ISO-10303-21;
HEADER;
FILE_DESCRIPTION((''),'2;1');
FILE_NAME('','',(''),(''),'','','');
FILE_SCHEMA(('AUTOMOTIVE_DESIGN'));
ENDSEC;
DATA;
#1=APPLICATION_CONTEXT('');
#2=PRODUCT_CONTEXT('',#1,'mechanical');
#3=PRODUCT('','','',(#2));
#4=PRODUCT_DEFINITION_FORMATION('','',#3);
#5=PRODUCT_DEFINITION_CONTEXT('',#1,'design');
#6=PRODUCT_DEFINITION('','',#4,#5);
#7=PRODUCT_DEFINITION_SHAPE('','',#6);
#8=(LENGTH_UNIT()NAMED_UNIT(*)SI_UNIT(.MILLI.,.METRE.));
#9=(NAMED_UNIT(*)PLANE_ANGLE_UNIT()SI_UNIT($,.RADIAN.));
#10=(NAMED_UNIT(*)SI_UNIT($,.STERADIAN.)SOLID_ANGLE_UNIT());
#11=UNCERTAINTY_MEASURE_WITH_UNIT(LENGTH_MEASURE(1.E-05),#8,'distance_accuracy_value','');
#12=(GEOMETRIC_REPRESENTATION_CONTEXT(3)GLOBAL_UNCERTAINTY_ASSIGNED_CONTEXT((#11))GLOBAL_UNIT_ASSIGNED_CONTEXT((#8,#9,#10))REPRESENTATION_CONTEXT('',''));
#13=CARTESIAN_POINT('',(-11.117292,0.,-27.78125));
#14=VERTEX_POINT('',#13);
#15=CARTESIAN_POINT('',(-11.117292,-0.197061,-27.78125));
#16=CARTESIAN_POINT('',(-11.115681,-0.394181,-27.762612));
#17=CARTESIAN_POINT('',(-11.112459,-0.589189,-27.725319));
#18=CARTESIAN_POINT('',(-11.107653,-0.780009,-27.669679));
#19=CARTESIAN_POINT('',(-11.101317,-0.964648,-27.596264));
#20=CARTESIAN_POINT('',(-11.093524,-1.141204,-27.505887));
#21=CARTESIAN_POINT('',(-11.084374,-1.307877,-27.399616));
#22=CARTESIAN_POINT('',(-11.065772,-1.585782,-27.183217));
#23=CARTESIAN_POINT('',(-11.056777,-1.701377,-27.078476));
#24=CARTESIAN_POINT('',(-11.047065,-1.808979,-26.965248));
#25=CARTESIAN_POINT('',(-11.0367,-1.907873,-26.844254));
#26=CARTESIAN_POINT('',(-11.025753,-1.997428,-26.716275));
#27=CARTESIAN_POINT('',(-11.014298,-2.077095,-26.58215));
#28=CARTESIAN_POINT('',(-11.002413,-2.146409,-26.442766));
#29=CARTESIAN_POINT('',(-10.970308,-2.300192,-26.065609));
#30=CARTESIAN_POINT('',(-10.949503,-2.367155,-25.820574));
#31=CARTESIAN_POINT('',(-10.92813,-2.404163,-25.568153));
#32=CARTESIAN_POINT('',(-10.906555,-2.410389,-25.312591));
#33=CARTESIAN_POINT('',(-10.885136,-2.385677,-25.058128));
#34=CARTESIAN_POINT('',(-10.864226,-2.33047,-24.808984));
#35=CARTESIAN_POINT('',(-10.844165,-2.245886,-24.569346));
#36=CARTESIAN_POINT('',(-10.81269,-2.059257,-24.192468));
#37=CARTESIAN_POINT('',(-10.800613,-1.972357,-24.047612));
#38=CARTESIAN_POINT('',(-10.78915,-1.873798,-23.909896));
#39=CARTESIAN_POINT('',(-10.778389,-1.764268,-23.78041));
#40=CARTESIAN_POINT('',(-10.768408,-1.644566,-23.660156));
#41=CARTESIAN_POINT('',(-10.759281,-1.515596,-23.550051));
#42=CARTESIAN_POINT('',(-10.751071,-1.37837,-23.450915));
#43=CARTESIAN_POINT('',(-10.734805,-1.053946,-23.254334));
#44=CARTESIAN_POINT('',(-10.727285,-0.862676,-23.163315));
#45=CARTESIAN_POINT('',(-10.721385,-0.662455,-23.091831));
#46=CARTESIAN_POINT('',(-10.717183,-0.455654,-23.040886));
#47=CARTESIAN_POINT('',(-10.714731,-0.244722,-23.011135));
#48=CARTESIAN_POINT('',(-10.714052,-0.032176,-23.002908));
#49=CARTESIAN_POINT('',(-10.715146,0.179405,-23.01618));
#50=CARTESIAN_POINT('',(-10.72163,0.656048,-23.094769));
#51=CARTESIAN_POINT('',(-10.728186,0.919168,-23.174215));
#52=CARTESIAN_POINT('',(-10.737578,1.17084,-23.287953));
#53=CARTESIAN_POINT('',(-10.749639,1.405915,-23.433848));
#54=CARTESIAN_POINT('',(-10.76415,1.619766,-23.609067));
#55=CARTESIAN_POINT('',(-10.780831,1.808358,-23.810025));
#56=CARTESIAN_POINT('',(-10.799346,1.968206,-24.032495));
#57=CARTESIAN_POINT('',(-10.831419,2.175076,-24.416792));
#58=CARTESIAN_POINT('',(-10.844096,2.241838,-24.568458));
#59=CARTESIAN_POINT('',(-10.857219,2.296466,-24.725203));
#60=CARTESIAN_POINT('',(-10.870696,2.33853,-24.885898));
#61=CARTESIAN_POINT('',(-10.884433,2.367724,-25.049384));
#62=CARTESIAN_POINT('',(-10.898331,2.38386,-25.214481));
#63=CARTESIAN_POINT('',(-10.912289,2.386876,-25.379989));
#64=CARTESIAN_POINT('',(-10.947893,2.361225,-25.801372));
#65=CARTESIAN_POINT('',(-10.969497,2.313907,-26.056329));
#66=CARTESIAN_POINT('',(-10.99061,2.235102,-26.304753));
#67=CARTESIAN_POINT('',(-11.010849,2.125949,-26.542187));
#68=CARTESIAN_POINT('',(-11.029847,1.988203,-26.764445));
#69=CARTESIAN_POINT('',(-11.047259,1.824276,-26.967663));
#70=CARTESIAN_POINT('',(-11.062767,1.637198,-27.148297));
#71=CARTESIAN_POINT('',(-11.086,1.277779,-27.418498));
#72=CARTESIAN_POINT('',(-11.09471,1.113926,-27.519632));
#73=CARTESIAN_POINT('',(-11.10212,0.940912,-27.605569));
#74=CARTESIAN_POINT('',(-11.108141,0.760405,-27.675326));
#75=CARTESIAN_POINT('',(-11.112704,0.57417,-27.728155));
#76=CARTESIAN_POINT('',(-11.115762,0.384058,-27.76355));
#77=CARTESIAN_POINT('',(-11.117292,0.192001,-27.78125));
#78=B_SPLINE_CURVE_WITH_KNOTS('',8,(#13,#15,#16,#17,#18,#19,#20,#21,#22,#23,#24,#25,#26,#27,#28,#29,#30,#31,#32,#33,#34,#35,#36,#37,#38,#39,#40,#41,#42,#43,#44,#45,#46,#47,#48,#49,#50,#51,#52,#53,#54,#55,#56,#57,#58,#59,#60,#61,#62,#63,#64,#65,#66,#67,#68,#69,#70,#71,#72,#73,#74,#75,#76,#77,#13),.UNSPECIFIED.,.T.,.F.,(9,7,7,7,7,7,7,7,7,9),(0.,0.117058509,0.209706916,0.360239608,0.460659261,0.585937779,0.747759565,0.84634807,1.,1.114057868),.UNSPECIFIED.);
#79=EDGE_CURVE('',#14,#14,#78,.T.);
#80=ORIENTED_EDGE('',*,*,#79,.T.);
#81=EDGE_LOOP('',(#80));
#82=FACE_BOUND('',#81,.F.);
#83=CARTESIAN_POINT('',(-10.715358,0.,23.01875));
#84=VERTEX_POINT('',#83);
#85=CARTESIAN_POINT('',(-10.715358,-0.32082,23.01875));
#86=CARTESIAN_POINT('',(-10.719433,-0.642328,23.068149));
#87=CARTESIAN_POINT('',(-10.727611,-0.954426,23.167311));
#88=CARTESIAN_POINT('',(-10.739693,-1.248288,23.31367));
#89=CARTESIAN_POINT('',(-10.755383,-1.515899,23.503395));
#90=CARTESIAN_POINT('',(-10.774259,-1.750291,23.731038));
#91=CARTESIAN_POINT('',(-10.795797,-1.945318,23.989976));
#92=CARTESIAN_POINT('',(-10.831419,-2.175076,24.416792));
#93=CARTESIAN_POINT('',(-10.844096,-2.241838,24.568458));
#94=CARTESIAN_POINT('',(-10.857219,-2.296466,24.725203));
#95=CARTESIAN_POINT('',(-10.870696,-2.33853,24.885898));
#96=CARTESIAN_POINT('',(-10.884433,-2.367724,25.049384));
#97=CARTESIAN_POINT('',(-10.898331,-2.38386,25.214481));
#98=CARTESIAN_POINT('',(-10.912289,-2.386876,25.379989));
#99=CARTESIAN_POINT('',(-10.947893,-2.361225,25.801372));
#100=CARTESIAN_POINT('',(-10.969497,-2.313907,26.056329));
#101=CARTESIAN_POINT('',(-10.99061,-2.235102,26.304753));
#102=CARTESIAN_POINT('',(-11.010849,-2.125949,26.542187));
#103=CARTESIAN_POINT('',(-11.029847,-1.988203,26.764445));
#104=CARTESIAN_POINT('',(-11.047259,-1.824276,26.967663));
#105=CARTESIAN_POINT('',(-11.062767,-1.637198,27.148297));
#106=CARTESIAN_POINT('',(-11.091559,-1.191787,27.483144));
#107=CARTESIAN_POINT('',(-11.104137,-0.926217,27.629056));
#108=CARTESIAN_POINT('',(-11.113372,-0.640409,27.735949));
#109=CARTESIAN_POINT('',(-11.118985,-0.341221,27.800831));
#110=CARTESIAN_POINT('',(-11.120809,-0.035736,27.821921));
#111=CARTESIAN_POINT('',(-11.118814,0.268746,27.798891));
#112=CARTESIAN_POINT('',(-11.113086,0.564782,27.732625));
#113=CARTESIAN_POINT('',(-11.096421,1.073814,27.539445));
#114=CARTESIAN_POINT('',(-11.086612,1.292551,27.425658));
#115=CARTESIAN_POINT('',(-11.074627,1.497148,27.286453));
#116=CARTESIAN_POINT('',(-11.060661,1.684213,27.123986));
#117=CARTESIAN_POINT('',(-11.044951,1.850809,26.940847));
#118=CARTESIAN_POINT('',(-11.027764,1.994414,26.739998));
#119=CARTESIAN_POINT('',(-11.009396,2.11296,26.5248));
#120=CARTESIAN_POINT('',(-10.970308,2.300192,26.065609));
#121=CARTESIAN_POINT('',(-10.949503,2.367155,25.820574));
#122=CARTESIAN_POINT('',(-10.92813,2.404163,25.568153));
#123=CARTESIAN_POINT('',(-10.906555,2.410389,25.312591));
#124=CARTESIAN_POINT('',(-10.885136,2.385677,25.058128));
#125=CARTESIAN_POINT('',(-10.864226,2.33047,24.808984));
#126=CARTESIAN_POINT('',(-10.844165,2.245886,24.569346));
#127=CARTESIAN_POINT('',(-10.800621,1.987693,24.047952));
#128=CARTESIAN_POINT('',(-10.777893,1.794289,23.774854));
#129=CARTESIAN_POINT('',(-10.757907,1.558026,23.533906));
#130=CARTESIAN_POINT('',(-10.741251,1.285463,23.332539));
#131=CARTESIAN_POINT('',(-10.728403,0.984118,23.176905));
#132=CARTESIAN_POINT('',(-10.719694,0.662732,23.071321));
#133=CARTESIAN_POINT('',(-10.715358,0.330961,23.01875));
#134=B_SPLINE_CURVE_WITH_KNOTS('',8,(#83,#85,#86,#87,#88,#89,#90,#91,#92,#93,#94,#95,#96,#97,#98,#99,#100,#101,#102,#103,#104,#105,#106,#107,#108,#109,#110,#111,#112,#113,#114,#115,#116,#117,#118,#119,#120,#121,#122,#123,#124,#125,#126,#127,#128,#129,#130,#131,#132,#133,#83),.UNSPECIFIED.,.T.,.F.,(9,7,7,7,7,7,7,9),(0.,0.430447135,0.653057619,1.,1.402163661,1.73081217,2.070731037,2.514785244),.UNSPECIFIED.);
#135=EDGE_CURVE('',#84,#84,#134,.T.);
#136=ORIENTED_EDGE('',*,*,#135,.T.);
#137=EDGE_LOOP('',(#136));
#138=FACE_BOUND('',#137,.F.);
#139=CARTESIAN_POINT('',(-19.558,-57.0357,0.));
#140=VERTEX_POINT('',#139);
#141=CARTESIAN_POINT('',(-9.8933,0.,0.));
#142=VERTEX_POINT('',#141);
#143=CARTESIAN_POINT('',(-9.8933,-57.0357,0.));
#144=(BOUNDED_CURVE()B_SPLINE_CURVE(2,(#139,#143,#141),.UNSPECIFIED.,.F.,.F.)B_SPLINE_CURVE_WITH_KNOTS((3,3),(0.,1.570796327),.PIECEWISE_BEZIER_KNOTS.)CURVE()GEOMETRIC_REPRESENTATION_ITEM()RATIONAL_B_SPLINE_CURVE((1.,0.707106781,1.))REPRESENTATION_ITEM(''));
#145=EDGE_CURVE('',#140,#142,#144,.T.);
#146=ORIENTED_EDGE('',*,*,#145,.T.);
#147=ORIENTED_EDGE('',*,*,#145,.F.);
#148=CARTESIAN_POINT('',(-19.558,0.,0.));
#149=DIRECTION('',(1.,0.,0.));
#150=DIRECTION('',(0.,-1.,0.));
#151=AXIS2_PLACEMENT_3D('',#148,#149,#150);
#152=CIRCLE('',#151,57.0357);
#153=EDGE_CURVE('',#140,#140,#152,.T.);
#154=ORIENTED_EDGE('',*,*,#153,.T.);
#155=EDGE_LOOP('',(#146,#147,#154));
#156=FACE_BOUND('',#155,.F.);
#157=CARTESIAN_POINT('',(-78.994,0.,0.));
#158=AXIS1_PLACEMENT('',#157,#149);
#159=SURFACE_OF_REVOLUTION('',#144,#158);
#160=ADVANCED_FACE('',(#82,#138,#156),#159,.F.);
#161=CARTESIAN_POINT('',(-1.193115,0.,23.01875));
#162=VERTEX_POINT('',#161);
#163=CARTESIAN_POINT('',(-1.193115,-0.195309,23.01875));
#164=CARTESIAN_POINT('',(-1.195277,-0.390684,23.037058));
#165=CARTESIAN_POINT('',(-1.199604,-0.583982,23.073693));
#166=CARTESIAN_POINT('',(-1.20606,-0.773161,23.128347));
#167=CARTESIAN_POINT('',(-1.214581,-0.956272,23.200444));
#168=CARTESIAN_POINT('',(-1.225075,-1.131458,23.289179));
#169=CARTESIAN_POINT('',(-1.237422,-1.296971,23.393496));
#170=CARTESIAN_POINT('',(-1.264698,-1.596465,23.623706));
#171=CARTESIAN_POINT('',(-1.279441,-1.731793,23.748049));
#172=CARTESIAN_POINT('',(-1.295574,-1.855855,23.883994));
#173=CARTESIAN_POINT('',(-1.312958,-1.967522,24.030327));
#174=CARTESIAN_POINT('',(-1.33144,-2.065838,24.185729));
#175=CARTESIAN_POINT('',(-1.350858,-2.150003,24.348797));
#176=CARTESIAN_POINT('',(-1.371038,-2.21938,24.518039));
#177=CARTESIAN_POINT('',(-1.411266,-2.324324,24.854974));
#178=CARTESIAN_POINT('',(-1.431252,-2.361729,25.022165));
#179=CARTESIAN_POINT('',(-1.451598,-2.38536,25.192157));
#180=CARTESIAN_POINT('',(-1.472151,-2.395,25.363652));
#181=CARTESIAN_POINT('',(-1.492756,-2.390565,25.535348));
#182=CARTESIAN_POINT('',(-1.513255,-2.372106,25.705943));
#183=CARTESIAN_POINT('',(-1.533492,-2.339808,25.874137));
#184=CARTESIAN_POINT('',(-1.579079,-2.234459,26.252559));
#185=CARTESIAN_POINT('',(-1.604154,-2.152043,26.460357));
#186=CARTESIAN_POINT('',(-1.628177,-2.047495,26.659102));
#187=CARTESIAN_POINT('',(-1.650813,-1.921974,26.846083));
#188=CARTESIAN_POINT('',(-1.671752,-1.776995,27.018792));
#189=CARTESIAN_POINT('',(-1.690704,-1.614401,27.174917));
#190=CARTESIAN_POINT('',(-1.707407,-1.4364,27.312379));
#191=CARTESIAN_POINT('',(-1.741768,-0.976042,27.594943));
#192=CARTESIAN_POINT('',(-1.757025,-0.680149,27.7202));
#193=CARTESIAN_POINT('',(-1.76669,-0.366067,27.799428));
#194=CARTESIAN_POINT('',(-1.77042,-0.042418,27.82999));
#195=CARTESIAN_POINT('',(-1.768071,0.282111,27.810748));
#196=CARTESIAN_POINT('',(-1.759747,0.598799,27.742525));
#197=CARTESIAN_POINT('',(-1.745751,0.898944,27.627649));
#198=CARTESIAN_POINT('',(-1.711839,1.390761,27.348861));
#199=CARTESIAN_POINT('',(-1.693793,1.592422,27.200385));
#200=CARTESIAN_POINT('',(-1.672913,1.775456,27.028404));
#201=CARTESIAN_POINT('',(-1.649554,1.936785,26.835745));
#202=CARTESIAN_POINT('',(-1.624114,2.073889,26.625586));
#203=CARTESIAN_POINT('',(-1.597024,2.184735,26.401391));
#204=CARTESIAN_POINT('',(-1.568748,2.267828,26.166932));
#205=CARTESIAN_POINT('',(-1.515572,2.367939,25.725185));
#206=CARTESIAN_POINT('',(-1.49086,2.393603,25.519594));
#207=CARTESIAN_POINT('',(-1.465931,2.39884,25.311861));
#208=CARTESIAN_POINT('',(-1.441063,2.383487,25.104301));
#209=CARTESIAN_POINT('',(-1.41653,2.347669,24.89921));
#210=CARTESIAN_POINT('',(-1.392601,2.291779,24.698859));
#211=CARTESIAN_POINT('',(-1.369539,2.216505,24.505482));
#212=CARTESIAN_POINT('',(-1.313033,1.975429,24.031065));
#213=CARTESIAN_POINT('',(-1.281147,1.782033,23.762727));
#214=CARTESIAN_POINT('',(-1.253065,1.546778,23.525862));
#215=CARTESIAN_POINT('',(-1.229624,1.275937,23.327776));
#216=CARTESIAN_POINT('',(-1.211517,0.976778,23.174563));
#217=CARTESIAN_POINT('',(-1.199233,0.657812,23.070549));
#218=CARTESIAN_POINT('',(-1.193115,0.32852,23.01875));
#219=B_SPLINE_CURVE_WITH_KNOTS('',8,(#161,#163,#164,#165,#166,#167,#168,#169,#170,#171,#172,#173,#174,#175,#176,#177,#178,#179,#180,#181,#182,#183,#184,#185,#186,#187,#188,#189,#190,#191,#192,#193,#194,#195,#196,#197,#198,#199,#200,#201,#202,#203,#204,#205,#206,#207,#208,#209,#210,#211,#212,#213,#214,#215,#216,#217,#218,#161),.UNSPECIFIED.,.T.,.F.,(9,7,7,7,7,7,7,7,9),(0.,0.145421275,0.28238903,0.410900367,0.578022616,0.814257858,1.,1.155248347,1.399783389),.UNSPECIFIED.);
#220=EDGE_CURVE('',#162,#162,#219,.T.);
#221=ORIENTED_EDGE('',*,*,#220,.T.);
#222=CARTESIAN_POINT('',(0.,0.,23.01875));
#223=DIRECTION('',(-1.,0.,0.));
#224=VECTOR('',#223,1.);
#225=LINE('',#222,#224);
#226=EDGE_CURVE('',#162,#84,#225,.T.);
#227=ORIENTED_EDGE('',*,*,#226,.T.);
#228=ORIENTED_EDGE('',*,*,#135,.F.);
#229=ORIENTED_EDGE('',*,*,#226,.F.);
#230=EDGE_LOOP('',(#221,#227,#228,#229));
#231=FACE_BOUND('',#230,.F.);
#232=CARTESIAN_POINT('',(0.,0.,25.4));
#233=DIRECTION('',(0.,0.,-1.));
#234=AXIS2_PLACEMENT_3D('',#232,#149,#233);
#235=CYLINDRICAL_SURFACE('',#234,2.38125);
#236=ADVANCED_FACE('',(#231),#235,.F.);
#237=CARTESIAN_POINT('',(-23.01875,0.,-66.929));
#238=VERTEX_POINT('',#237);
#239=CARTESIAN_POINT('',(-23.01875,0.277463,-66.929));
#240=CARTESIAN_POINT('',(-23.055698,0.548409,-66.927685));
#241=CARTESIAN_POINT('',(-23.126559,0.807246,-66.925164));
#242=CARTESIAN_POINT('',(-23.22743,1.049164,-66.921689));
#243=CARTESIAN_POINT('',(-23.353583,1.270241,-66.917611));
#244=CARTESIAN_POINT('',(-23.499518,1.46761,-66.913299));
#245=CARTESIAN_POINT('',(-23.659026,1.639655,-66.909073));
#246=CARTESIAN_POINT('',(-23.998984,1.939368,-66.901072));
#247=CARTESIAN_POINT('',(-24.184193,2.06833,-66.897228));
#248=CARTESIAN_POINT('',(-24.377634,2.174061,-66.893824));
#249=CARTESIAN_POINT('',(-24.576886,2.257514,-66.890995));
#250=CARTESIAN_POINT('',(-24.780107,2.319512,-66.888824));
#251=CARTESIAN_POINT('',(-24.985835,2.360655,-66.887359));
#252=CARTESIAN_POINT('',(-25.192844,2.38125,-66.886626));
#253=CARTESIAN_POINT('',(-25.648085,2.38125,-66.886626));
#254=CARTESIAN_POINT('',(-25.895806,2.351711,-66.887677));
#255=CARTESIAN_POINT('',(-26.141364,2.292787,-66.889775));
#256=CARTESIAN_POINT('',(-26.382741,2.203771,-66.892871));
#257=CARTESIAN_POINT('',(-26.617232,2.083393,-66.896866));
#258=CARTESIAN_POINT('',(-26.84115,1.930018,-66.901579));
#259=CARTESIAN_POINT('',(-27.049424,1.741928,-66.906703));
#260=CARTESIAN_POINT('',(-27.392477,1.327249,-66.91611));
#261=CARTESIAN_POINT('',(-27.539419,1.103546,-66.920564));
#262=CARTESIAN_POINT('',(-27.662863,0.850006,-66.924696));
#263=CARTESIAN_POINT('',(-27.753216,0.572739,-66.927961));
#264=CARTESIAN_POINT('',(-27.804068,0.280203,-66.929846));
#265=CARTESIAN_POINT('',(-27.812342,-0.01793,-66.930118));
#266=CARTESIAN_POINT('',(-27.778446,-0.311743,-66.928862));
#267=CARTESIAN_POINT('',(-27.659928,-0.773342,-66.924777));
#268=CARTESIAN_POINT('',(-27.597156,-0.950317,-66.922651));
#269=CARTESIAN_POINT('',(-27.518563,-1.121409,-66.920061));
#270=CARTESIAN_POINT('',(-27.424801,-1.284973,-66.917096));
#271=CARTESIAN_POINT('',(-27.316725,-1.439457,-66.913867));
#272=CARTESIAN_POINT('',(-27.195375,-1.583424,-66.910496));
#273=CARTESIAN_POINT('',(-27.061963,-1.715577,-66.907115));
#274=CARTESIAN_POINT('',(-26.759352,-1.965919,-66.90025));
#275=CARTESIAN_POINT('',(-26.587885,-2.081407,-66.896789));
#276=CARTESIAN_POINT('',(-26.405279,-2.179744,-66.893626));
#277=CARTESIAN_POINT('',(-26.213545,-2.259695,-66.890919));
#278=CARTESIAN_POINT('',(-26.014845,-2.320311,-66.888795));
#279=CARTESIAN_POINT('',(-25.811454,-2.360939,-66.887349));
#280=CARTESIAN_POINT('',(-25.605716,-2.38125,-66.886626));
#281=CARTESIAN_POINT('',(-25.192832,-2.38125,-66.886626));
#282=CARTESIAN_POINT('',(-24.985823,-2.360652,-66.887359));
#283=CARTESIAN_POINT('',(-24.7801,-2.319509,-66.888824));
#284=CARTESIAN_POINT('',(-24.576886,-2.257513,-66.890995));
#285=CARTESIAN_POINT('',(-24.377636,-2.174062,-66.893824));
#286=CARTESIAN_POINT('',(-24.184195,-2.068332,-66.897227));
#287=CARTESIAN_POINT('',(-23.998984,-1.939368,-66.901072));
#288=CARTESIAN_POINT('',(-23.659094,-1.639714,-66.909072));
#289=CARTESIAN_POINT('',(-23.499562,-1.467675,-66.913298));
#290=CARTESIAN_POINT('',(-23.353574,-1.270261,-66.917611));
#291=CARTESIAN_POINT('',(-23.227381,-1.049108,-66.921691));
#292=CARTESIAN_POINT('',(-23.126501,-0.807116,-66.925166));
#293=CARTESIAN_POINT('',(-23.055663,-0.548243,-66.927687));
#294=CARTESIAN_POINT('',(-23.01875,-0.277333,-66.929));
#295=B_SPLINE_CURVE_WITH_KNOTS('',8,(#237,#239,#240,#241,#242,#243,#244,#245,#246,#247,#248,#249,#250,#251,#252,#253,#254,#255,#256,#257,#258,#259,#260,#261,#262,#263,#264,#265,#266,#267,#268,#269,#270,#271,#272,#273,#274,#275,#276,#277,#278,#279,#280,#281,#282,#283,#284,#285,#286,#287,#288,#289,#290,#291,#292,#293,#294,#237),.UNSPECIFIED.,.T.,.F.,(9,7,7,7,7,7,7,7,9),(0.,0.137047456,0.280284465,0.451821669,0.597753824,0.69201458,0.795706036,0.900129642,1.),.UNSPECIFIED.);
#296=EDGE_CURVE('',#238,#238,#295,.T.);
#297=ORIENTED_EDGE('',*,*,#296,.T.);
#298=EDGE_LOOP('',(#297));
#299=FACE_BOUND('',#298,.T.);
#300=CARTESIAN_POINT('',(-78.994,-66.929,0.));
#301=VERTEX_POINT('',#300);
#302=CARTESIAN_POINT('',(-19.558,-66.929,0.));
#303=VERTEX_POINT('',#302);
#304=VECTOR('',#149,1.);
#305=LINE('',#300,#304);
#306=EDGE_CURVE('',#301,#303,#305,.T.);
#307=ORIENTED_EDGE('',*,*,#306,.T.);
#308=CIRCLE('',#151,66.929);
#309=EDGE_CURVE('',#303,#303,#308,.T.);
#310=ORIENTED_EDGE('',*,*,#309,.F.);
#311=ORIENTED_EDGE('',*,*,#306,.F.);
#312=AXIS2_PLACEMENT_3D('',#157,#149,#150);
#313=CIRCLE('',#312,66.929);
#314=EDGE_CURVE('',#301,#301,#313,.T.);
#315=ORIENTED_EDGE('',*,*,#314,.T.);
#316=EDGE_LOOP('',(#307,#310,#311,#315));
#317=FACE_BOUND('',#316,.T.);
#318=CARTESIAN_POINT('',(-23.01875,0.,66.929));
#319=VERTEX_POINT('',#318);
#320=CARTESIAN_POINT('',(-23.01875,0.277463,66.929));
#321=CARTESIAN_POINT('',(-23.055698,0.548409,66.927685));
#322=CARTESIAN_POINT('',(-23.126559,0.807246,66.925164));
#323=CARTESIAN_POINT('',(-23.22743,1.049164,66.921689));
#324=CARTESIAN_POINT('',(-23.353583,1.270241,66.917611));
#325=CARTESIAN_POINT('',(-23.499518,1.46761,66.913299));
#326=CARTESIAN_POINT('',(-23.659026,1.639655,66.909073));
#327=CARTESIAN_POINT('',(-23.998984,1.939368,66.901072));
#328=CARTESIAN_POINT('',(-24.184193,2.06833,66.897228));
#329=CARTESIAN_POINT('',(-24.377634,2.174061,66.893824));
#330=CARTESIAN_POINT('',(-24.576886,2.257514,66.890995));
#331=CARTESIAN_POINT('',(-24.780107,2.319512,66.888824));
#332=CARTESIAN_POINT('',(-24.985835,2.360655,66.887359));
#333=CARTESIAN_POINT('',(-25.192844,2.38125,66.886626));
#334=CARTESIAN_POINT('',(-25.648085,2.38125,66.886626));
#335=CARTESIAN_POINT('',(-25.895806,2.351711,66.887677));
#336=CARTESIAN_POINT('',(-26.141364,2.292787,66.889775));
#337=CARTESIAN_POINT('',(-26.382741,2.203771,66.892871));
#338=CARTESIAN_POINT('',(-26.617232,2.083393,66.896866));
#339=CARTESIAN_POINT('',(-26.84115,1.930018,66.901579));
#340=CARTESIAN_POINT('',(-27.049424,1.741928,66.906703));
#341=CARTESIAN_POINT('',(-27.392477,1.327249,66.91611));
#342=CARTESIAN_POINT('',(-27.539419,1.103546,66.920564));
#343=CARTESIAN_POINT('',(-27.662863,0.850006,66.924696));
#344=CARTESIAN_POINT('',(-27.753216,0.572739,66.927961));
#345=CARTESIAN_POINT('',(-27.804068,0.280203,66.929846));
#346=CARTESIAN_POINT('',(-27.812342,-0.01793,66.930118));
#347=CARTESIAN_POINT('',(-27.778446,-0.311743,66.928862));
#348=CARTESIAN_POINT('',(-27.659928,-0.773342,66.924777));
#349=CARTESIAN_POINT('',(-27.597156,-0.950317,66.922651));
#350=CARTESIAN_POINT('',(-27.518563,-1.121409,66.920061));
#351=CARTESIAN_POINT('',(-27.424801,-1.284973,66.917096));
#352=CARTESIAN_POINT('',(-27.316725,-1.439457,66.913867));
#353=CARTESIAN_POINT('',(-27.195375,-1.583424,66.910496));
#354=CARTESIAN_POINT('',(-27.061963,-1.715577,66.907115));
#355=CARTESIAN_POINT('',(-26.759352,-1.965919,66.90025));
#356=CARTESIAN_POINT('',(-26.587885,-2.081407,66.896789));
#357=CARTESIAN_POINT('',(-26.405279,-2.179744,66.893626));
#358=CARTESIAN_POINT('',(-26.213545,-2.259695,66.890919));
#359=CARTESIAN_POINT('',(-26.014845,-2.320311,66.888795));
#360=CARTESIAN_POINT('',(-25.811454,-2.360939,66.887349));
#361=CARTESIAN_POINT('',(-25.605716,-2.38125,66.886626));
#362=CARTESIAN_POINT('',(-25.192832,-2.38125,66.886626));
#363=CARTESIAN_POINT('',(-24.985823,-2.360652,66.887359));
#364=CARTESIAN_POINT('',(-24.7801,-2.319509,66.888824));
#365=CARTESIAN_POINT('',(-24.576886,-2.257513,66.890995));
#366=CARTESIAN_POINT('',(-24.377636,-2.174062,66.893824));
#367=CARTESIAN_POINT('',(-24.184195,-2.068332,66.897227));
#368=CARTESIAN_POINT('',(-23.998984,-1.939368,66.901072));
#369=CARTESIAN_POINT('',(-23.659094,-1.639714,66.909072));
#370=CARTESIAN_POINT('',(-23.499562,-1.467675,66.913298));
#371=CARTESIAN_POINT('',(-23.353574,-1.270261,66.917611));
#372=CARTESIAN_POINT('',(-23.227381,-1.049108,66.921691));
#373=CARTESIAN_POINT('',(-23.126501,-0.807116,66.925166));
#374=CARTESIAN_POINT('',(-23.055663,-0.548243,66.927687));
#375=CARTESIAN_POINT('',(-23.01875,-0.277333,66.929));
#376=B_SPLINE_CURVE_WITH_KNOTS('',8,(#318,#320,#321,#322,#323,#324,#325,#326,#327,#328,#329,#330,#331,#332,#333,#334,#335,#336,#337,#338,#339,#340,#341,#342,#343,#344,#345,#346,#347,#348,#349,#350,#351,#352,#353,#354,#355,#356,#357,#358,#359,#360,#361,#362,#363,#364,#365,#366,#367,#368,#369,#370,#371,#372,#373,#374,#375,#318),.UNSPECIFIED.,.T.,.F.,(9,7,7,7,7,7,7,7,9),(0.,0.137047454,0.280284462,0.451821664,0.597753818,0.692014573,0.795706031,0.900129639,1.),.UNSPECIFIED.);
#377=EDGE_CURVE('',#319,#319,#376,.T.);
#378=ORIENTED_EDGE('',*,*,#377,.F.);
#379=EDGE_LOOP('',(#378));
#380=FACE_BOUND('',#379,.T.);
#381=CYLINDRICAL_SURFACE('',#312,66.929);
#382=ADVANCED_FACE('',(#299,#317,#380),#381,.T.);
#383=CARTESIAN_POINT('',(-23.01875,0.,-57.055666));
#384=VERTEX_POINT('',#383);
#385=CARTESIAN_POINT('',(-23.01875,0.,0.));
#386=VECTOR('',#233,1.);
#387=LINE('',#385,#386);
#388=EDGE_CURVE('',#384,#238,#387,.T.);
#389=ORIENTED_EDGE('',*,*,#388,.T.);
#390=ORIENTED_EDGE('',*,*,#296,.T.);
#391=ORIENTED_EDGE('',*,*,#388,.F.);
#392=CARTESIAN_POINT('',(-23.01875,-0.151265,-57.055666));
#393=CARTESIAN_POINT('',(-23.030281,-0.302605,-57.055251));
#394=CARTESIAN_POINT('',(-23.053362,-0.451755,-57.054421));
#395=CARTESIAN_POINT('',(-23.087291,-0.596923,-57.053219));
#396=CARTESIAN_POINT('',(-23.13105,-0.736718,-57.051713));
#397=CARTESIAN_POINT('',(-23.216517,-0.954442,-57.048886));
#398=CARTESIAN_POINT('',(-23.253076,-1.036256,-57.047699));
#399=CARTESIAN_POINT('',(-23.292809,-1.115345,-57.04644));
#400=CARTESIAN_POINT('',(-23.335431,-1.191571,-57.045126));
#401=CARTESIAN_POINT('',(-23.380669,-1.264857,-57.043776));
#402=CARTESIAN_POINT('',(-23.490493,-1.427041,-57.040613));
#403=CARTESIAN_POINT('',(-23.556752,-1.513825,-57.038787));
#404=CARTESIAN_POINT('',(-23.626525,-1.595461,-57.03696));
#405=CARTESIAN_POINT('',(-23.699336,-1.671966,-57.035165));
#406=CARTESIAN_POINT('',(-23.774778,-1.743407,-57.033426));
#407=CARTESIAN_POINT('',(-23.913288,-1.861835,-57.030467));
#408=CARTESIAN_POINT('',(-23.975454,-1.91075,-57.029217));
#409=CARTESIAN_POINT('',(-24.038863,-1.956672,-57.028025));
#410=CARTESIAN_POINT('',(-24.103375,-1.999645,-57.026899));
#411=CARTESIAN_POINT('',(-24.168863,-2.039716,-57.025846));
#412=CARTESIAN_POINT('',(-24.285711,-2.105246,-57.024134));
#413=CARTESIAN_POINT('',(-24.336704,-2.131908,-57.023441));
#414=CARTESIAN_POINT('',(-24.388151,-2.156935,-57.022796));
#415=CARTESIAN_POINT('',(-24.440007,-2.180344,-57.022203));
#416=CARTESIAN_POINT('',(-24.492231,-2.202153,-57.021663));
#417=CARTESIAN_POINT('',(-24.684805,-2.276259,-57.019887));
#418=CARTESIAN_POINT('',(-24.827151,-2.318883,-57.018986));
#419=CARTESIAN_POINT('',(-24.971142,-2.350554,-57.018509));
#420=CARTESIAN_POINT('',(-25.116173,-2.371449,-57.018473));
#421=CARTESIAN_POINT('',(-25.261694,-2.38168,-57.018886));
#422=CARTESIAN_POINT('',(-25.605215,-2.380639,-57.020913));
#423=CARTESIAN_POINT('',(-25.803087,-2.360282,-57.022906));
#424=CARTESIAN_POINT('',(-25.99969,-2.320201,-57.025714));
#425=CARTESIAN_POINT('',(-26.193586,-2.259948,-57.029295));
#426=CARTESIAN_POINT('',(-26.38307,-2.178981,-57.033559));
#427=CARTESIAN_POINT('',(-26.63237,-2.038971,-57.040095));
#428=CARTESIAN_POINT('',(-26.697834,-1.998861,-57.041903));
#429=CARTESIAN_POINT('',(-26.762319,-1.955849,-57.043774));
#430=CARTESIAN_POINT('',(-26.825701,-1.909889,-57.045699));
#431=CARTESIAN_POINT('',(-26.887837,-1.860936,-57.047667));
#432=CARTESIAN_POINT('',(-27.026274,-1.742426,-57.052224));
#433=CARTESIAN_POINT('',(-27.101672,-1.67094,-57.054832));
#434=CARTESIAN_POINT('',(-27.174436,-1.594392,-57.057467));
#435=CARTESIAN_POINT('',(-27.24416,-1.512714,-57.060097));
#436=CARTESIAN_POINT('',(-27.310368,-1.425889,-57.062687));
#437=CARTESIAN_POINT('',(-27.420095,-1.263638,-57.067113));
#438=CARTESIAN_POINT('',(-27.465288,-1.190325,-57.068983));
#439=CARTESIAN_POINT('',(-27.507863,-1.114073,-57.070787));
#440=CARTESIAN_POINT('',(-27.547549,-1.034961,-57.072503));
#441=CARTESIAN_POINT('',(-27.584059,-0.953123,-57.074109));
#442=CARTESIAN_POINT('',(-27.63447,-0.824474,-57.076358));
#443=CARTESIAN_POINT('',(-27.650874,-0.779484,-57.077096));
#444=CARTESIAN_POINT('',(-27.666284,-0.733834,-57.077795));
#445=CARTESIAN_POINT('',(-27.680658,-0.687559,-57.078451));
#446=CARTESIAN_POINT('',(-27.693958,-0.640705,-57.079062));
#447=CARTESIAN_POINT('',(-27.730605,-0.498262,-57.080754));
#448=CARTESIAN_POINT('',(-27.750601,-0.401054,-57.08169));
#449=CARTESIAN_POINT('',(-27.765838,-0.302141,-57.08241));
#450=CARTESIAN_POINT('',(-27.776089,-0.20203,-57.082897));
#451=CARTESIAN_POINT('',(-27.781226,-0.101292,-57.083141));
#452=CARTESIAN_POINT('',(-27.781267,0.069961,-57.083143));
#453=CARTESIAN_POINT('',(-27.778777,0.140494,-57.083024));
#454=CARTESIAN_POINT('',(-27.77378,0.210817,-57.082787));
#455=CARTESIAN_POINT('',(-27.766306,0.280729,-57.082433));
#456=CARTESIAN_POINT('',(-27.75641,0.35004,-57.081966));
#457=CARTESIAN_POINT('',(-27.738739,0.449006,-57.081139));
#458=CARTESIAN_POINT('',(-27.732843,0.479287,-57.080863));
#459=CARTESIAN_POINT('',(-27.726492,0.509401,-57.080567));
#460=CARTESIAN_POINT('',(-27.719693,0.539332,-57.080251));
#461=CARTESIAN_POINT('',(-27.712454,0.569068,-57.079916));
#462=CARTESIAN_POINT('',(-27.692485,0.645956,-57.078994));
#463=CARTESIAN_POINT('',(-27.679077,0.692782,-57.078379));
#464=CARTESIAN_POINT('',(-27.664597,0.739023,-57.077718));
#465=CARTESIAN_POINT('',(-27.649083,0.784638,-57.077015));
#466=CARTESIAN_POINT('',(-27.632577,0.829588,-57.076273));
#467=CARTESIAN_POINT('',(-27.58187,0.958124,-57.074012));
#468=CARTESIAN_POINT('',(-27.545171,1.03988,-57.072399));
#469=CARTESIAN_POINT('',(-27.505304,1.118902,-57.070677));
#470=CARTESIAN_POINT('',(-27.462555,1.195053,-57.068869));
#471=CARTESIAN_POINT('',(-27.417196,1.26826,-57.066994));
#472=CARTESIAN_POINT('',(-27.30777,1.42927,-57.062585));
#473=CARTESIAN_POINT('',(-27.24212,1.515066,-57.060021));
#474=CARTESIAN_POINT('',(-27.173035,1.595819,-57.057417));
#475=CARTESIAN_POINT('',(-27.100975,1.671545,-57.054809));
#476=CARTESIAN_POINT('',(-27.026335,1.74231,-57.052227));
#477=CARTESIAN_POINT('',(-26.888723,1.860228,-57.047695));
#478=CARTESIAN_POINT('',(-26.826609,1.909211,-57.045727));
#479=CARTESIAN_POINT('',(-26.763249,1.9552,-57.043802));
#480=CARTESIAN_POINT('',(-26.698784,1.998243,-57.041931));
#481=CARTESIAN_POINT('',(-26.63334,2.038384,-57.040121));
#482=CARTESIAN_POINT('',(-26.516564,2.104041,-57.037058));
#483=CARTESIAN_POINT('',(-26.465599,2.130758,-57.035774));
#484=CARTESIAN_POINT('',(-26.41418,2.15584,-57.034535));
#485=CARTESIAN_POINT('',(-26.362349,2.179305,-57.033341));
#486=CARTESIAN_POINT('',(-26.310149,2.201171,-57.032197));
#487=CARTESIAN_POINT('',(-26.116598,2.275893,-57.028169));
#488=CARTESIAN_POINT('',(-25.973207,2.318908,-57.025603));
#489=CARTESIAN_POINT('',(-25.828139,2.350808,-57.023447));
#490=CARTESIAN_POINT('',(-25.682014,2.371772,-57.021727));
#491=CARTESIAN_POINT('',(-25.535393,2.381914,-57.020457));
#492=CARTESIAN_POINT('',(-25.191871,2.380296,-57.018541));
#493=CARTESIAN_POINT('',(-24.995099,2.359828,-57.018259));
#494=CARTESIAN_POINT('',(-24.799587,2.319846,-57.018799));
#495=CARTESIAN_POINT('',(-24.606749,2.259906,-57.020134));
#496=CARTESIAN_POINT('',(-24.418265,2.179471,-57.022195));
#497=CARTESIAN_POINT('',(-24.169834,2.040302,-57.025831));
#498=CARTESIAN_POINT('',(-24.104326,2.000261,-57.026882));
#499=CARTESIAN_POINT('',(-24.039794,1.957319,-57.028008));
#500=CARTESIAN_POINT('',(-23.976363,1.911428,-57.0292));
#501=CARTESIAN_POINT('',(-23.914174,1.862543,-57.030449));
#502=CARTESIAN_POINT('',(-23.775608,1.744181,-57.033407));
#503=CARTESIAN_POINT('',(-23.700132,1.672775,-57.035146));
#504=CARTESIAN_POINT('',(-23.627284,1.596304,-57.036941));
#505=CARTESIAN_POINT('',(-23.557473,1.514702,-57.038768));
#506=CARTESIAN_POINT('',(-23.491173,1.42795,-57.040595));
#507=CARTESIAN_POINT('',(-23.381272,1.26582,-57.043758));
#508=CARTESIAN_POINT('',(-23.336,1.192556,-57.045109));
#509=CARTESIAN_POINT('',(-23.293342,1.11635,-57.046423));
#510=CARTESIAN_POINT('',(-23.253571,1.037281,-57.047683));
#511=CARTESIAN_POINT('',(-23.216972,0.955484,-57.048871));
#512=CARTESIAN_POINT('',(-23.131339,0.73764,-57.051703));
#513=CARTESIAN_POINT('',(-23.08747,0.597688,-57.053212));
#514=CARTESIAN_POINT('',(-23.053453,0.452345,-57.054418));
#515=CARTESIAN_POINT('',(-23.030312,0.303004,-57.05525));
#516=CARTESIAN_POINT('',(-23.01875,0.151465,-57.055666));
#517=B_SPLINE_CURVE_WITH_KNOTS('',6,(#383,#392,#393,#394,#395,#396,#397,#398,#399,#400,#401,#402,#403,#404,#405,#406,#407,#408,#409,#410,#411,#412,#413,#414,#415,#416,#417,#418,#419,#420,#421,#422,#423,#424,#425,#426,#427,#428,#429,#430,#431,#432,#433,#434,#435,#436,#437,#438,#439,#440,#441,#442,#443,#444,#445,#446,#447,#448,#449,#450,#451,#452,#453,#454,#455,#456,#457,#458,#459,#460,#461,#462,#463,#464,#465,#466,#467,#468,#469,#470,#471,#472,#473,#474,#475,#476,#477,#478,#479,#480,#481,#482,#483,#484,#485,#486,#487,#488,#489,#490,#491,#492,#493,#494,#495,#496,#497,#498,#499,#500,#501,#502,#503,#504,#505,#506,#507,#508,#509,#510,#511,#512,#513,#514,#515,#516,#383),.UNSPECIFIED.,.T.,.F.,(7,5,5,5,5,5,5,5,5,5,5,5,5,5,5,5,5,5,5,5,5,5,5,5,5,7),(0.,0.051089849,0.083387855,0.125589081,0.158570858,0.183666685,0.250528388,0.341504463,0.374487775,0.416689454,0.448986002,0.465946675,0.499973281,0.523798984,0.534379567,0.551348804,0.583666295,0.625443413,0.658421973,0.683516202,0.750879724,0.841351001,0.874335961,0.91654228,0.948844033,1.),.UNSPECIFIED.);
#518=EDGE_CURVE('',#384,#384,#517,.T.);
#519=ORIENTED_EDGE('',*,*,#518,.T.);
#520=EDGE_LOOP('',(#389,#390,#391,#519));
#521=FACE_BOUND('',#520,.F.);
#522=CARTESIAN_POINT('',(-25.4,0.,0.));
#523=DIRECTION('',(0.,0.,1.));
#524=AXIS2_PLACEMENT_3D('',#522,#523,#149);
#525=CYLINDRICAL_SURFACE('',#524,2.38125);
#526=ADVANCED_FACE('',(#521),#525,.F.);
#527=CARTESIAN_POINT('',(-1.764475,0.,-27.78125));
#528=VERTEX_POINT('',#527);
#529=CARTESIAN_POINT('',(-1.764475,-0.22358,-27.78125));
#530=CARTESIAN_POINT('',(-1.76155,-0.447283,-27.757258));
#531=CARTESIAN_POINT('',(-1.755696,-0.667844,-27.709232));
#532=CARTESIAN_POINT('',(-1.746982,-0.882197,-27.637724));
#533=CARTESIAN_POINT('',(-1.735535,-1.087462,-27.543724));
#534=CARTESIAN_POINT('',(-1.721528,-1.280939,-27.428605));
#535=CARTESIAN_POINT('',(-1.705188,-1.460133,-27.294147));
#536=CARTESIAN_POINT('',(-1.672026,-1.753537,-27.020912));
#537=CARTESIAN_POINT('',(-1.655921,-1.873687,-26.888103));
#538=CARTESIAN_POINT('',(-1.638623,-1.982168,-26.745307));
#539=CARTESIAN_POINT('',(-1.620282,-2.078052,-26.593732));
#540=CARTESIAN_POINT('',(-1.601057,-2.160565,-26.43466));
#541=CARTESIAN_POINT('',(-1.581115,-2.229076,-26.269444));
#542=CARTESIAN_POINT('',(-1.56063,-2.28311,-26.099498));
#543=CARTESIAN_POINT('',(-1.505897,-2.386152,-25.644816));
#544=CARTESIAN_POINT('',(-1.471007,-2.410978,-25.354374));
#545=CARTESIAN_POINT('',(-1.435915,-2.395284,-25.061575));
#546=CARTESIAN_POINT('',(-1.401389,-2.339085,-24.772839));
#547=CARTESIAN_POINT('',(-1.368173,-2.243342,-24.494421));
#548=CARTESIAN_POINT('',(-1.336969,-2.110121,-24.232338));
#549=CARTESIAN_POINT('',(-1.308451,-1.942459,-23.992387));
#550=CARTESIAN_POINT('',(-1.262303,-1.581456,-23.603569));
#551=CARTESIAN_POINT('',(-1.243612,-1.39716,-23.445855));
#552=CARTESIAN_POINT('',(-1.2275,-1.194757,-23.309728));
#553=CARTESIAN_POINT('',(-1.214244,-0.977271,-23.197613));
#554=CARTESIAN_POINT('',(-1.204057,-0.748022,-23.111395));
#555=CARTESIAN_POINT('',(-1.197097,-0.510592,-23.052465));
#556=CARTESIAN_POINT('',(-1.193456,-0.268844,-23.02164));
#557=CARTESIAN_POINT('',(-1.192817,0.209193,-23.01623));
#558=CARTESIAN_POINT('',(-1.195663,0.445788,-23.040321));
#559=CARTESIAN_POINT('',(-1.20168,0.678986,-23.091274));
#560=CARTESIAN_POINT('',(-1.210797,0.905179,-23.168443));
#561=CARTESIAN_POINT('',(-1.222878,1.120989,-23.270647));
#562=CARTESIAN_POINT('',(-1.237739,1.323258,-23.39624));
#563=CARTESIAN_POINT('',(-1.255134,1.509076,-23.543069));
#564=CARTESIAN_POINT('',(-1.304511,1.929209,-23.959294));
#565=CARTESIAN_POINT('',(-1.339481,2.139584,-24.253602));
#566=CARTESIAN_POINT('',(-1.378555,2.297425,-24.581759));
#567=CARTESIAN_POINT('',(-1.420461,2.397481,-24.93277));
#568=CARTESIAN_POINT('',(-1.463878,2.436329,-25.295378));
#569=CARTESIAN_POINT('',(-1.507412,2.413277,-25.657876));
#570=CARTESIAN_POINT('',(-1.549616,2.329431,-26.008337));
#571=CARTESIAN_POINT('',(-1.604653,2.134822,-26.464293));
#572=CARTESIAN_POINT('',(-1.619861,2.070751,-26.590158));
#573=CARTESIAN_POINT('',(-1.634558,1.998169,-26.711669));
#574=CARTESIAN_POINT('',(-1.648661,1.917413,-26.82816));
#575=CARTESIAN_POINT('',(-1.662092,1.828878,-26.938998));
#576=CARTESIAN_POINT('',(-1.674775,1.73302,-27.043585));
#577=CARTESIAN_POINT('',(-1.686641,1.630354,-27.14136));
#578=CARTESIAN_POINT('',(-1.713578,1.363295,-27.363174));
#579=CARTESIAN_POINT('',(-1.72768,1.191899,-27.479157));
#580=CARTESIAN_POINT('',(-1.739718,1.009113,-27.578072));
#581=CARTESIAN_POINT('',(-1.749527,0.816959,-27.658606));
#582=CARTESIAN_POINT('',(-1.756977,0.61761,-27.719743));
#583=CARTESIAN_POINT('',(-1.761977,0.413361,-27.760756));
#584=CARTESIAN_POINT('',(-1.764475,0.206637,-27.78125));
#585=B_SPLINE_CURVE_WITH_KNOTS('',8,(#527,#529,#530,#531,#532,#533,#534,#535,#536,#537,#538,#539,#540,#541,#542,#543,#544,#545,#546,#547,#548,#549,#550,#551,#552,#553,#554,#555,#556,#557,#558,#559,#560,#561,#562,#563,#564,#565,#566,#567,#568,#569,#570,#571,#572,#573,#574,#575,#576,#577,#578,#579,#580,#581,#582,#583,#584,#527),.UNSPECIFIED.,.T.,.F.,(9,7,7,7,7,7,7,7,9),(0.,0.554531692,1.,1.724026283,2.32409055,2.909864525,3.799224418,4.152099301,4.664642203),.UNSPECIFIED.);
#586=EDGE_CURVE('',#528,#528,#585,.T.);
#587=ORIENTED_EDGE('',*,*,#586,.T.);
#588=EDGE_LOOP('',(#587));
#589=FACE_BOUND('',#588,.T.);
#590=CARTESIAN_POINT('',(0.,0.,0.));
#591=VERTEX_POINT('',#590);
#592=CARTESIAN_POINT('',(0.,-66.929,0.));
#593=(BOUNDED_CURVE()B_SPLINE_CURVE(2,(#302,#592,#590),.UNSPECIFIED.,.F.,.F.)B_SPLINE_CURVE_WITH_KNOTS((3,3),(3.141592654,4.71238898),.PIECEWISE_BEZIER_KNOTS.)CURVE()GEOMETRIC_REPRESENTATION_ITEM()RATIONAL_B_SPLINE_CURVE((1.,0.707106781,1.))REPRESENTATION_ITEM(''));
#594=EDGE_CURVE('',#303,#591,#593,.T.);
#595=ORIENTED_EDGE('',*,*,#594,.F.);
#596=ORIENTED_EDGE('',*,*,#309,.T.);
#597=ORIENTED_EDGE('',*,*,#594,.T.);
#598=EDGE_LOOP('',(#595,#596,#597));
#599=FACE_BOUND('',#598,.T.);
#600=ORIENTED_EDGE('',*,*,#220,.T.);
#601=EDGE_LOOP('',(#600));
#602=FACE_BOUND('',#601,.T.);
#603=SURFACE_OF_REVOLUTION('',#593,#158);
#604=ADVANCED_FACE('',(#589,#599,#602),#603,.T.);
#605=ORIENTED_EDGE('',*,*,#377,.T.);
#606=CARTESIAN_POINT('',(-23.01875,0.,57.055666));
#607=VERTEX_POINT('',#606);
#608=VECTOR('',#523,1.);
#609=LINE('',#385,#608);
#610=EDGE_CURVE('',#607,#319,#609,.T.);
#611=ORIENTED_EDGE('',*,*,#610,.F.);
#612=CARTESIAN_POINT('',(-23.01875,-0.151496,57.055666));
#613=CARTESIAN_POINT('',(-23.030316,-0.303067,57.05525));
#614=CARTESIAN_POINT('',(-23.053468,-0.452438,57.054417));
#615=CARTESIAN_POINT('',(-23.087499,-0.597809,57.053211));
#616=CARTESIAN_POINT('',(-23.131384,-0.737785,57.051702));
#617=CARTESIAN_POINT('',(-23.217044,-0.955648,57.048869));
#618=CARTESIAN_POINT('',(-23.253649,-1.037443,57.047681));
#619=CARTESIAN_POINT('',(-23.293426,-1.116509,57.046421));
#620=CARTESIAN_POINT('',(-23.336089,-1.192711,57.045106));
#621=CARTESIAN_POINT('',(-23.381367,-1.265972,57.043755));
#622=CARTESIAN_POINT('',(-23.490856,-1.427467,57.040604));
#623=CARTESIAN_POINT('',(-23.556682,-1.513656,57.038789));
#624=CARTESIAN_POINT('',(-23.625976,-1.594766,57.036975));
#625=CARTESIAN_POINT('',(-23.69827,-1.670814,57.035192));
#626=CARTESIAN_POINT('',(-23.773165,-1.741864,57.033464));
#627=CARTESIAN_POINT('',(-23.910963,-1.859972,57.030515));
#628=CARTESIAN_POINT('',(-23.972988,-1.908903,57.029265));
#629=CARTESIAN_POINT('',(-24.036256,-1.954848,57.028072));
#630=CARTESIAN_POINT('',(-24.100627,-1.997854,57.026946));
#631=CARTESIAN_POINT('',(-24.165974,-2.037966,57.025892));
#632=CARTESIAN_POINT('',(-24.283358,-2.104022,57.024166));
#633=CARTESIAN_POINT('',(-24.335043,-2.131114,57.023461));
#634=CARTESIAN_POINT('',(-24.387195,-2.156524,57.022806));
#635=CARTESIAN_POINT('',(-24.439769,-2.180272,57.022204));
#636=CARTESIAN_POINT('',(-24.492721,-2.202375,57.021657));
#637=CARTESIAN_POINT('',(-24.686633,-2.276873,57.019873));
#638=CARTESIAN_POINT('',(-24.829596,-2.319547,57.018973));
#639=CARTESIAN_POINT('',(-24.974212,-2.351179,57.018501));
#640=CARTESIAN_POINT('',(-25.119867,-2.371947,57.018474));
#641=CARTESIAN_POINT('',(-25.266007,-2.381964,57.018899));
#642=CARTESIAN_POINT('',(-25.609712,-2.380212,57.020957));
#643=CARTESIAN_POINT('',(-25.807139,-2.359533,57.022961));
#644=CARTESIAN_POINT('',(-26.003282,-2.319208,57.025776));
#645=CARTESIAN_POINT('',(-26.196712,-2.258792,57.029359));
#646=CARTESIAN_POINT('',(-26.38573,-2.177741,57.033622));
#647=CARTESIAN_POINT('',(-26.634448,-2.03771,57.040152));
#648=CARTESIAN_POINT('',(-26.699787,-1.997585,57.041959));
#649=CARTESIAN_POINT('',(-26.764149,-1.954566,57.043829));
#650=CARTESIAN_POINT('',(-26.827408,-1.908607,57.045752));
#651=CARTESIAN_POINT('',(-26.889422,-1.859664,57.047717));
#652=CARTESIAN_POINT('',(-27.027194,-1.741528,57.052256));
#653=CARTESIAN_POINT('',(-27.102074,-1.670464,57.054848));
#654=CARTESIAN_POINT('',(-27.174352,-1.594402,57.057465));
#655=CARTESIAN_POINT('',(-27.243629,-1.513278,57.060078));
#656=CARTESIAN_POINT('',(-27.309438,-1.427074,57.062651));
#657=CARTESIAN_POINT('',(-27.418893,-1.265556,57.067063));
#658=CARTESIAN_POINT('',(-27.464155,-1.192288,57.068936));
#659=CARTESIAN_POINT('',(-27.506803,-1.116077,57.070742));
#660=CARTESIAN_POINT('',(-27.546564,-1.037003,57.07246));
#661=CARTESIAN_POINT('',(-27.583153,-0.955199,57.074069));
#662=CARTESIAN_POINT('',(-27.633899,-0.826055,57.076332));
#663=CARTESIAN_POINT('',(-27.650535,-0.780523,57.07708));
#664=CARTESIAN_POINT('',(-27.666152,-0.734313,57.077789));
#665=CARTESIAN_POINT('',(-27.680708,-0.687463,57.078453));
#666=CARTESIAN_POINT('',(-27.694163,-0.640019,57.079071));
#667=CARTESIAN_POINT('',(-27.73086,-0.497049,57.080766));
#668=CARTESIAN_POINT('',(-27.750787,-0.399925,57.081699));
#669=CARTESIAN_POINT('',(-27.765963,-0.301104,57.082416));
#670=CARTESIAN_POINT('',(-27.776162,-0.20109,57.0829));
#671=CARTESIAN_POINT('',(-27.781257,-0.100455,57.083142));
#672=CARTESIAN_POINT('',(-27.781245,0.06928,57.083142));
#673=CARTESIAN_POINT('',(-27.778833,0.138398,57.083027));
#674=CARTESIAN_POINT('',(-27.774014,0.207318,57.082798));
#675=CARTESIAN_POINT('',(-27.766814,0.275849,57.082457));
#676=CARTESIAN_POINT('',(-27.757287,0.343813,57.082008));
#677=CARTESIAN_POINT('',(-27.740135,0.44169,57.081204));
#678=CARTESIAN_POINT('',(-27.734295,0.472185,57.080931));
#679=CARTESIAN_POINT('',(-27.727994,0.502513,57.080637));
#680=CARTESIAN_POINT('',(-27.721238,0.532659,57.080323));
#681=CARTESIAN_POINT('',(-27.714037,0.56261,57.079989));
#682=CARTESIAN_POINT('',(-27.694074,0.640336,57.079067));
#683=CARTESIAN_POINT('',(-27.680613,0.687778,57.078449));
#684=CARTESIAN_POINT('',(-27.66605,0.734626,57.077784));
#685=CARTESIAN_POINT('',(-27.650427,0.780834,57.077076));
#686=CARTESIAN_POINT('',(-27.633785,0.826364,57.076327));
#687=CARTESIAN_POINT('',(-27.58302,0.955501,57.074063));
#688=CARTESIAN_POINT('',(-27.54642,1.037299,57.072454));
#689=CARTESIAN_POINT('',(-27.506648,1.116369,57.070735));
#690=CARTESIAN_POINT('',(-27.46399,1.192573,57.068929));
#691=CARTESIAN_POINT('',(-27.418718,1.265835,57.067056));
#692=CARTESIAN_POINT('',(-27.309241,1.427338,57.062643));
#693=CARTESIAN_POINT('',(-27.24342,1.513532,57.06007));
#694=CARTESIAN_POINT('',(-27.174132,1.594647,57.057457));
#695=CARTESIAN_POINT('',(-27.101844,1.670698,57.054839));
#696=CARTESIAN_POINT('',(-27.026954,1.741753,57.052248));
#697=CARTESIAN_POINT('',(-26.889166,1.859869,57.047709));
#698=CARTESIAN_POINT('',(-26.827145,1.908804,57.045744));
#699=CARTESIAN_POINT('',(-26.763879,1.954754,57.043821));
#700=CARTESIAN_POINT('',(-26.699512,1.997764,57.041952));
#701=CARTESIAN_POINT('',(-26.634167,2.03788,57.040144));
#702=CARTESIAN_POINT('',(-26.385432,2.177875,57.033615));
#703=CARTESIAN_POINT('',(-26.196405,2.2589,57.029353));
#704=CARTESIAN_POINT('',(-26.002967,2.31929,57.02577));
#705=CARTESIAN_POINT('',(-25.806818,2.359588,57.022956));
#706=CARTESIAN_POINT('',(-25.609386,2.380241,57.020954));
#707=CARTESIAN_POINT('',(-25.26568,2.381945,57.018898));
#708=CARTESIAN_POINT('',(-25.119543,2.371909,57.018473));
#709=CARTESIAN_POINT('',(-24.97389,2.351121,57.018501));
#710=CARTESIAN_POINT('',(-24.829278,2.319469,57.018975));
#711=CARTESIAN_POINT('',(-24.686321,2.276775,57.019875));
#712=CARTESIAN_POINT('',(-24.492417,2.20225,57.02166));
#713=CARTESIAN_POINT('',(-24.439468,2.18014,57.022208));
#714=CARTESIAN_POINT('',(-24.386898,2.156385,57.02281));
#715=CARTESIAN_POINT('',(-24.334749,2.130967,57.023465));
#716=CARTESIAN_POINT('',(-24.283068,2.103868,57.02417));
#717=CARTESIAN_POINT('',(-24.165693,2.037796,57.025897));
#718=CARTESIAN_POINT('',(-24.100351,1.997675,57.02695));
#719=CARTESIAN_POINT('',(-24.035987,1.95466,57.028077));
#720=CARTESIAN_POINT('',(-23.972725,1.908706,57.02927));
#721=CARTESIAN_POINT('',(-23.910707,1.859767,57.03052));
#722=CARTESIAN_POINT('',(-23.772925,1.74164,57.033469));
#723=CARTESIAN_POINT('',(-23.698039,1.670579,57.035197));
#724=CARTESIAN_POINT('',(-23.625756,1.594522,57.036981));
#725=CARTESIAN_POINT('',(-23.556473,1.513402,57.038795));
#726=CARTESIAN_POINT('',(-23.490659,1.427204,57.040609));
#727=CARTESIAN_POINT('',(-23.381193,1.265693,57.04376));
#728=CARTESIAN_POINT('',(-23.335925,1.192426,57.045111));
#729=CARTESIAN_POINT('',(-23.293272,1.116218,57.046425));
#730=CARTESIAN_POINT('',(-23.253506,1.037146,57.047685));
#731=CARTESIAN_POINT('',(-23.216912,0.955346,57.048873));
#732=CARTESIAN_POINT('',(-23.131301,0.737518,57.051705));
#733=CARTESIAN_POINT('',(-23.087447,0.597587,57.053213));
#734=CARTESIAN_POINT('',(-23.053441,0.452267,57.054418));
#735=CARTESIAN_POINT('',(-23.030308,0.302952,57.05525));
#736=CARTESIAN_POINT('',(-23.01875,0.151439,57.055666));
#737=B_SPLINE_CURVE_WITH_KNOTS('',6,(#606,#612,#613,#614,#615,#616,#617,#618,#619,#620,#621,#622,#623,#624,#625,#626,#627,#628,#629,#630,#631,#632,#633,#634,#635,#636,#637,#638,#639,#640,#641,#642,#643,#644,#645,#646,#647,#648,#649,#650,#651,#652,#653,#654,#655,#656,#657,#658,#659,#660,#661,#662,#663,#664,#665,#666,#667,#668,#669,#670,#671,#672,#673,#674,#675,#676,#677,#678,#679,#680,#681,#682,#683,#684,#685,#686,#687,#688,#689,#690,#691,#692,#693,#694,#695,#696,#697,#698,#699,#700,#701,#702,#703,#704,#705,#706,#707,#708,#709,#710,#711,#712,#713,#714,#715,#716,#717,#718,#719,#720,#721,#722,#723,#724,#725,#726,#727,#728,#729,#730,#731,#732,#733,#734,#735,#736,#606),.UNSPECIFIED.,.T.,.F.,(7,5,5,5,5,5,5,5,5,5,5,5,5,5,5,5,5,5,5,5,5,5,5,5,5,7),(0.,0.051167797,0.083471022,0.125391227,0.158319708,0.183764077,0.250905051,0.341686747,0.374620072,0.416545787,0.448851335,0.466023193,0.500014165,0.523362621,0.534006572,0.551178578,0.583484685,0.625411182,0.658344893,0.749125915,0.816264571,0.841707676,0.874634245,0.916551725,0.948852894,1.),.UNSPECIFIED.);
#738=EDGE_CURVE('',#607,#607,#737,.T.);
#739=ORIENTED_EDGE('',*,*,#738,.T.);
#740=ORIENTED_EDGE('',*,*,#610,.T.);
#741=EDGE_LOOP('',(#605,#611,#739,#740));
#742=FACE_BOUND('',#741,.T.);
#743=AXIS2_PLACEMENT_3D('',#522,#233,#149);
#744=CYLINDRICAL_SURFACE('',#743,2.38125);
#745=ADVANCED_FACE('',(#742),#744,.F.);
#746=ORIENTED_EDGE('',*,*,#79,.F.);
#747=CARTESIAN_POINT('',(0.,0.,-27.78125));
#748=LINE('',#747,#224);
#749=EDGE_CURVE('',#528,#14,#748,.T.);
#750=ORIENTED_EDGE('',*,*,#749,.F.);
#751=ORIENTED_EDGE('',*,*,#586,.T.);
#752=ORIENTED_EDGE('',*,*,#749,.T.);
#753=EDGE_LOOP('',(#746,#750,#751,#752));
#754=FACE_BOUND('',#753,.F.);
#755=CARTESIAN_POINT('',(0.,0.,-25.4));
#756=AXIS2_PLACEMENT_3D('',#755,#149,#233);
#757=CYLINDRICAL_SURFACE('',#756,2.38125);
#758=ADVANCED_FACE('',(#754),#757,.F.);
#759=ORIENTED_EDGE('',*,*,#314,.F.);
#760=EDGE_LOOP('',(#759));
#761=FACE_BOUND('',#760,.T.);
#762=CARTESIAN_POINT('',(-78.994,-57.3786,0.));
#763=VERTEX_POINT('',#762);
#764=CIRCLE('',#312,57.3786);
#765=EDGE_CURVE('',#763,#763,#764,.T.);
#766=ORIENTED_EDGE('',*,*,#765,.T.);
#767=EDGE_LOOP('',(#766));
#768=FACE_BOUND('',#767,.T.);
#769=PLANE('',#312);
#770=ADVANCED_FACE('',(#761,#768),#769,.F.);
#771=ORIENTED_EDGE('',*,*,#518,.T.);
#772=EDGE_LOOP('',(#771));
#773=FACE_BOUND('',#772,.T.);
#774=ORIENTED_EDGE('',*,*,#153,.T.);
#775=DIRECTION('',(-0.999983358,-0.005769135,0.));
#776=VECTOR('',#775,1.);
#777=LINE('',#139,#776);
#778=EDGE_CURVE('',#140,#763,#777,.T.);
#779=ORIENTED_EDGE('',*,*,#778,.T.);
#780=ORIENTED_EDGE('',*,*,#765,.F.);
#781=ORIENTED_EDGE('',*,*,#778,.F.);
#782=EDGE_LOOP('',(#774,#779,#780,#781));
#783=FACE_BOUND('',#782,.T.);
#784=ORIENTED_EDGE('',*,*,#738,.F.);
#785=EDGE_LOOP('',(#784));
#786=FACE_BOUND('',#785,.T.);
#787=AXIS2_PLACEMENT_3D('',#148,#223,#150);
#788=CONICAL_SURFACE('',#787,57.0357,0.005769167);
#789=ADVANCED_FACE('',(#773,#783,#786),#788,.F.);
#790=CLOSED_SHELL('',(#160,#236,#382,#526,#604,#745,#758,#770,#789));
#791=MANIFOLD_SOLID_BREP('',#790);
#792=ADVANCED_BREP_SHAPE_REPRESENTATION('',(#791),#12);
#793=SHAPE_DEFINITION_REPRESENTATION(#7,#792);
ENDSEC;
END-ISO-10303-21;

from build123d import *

# Parameters (mm, degrees)
SKETCH2_R               = 2.38125
CUT_EXTRUDE3_DEPTH      = 79.994
SKETCH3_R               = 2.38125
CUT_EXTRUDE4_DEPTH      = 67.9290001
CUT_EXTRUDE4_DEPTH_BACK = 67.9290001


with BuildPart() as part:
    # Sketch1 → Revolve1 (revolve)
    with BuildSketch(Plane.XY):
        with BuildLine():
            Line((-78.994, -66.929), (-19.558, -66.929))
            add(Edge.make_bspline(
                [(-19.558, -66.929), (0, -66.929), (0, 0)],
                knots=[3.141592654, 3.141592654, 3.141592654, 4.71238898, 4.71238898, 4.71238898], degree=2, weights=[1, 0.707106781, 1]))
            Line((0, 0), (-9.8933, 0))
            add(Edge.make_bspline(
                [(-19.558, -57.0357), (-9.8933, -57.0357), (-9.8933, 0)],
                knots=[0, 0, 0, 1.570796327, 1.570796327, 1.570796327], degree=2, weights=[1, 0.707106781, 1]))
            Line((-19.558, -57.0357), (-78.994, -57.3786))
            Line((-78.994, -57.3786), (-78.994, -66.929))
        make_face()
    revolve(axis=Axis((-78.994, 0, 0), (1, 0, 0)))

    # Sketch2 → Cut-Extrude3 (cut, through all)
    with BuildSketch(Plane(origin=(0, 0, 0), x_dir=(0, 0, -1), z_dir=(1, 0, 0))):
        with Locations((-25.4, 0)):
            Circle(SKETCH2_R)
        with Locations((25.4, 0)):
            Circle(SKETCH2_R)
    extrude(amount=-CUT_EXTRUDE3_DEPTH, mode=Mode.SUBTRACT)

    # Sketch3 → Cut-Extrude4 (cut, two sides)
    with BuildSketch(Plane.XY) as cut_extrude4_sk:
        with Locations((-25.4, 0)):
            Circle(SKETCH3_R)
    extrude(amount=CUT_EXTRUDE4_DEPTH, mode=Mode.SUBTRACT)
    extrude(cut_extrude4_sk.sketch, amount=-CUT_EXTRUDE4_DEPTH_BACK, mode=Mode.SUBTRACT)


solid = part.part
